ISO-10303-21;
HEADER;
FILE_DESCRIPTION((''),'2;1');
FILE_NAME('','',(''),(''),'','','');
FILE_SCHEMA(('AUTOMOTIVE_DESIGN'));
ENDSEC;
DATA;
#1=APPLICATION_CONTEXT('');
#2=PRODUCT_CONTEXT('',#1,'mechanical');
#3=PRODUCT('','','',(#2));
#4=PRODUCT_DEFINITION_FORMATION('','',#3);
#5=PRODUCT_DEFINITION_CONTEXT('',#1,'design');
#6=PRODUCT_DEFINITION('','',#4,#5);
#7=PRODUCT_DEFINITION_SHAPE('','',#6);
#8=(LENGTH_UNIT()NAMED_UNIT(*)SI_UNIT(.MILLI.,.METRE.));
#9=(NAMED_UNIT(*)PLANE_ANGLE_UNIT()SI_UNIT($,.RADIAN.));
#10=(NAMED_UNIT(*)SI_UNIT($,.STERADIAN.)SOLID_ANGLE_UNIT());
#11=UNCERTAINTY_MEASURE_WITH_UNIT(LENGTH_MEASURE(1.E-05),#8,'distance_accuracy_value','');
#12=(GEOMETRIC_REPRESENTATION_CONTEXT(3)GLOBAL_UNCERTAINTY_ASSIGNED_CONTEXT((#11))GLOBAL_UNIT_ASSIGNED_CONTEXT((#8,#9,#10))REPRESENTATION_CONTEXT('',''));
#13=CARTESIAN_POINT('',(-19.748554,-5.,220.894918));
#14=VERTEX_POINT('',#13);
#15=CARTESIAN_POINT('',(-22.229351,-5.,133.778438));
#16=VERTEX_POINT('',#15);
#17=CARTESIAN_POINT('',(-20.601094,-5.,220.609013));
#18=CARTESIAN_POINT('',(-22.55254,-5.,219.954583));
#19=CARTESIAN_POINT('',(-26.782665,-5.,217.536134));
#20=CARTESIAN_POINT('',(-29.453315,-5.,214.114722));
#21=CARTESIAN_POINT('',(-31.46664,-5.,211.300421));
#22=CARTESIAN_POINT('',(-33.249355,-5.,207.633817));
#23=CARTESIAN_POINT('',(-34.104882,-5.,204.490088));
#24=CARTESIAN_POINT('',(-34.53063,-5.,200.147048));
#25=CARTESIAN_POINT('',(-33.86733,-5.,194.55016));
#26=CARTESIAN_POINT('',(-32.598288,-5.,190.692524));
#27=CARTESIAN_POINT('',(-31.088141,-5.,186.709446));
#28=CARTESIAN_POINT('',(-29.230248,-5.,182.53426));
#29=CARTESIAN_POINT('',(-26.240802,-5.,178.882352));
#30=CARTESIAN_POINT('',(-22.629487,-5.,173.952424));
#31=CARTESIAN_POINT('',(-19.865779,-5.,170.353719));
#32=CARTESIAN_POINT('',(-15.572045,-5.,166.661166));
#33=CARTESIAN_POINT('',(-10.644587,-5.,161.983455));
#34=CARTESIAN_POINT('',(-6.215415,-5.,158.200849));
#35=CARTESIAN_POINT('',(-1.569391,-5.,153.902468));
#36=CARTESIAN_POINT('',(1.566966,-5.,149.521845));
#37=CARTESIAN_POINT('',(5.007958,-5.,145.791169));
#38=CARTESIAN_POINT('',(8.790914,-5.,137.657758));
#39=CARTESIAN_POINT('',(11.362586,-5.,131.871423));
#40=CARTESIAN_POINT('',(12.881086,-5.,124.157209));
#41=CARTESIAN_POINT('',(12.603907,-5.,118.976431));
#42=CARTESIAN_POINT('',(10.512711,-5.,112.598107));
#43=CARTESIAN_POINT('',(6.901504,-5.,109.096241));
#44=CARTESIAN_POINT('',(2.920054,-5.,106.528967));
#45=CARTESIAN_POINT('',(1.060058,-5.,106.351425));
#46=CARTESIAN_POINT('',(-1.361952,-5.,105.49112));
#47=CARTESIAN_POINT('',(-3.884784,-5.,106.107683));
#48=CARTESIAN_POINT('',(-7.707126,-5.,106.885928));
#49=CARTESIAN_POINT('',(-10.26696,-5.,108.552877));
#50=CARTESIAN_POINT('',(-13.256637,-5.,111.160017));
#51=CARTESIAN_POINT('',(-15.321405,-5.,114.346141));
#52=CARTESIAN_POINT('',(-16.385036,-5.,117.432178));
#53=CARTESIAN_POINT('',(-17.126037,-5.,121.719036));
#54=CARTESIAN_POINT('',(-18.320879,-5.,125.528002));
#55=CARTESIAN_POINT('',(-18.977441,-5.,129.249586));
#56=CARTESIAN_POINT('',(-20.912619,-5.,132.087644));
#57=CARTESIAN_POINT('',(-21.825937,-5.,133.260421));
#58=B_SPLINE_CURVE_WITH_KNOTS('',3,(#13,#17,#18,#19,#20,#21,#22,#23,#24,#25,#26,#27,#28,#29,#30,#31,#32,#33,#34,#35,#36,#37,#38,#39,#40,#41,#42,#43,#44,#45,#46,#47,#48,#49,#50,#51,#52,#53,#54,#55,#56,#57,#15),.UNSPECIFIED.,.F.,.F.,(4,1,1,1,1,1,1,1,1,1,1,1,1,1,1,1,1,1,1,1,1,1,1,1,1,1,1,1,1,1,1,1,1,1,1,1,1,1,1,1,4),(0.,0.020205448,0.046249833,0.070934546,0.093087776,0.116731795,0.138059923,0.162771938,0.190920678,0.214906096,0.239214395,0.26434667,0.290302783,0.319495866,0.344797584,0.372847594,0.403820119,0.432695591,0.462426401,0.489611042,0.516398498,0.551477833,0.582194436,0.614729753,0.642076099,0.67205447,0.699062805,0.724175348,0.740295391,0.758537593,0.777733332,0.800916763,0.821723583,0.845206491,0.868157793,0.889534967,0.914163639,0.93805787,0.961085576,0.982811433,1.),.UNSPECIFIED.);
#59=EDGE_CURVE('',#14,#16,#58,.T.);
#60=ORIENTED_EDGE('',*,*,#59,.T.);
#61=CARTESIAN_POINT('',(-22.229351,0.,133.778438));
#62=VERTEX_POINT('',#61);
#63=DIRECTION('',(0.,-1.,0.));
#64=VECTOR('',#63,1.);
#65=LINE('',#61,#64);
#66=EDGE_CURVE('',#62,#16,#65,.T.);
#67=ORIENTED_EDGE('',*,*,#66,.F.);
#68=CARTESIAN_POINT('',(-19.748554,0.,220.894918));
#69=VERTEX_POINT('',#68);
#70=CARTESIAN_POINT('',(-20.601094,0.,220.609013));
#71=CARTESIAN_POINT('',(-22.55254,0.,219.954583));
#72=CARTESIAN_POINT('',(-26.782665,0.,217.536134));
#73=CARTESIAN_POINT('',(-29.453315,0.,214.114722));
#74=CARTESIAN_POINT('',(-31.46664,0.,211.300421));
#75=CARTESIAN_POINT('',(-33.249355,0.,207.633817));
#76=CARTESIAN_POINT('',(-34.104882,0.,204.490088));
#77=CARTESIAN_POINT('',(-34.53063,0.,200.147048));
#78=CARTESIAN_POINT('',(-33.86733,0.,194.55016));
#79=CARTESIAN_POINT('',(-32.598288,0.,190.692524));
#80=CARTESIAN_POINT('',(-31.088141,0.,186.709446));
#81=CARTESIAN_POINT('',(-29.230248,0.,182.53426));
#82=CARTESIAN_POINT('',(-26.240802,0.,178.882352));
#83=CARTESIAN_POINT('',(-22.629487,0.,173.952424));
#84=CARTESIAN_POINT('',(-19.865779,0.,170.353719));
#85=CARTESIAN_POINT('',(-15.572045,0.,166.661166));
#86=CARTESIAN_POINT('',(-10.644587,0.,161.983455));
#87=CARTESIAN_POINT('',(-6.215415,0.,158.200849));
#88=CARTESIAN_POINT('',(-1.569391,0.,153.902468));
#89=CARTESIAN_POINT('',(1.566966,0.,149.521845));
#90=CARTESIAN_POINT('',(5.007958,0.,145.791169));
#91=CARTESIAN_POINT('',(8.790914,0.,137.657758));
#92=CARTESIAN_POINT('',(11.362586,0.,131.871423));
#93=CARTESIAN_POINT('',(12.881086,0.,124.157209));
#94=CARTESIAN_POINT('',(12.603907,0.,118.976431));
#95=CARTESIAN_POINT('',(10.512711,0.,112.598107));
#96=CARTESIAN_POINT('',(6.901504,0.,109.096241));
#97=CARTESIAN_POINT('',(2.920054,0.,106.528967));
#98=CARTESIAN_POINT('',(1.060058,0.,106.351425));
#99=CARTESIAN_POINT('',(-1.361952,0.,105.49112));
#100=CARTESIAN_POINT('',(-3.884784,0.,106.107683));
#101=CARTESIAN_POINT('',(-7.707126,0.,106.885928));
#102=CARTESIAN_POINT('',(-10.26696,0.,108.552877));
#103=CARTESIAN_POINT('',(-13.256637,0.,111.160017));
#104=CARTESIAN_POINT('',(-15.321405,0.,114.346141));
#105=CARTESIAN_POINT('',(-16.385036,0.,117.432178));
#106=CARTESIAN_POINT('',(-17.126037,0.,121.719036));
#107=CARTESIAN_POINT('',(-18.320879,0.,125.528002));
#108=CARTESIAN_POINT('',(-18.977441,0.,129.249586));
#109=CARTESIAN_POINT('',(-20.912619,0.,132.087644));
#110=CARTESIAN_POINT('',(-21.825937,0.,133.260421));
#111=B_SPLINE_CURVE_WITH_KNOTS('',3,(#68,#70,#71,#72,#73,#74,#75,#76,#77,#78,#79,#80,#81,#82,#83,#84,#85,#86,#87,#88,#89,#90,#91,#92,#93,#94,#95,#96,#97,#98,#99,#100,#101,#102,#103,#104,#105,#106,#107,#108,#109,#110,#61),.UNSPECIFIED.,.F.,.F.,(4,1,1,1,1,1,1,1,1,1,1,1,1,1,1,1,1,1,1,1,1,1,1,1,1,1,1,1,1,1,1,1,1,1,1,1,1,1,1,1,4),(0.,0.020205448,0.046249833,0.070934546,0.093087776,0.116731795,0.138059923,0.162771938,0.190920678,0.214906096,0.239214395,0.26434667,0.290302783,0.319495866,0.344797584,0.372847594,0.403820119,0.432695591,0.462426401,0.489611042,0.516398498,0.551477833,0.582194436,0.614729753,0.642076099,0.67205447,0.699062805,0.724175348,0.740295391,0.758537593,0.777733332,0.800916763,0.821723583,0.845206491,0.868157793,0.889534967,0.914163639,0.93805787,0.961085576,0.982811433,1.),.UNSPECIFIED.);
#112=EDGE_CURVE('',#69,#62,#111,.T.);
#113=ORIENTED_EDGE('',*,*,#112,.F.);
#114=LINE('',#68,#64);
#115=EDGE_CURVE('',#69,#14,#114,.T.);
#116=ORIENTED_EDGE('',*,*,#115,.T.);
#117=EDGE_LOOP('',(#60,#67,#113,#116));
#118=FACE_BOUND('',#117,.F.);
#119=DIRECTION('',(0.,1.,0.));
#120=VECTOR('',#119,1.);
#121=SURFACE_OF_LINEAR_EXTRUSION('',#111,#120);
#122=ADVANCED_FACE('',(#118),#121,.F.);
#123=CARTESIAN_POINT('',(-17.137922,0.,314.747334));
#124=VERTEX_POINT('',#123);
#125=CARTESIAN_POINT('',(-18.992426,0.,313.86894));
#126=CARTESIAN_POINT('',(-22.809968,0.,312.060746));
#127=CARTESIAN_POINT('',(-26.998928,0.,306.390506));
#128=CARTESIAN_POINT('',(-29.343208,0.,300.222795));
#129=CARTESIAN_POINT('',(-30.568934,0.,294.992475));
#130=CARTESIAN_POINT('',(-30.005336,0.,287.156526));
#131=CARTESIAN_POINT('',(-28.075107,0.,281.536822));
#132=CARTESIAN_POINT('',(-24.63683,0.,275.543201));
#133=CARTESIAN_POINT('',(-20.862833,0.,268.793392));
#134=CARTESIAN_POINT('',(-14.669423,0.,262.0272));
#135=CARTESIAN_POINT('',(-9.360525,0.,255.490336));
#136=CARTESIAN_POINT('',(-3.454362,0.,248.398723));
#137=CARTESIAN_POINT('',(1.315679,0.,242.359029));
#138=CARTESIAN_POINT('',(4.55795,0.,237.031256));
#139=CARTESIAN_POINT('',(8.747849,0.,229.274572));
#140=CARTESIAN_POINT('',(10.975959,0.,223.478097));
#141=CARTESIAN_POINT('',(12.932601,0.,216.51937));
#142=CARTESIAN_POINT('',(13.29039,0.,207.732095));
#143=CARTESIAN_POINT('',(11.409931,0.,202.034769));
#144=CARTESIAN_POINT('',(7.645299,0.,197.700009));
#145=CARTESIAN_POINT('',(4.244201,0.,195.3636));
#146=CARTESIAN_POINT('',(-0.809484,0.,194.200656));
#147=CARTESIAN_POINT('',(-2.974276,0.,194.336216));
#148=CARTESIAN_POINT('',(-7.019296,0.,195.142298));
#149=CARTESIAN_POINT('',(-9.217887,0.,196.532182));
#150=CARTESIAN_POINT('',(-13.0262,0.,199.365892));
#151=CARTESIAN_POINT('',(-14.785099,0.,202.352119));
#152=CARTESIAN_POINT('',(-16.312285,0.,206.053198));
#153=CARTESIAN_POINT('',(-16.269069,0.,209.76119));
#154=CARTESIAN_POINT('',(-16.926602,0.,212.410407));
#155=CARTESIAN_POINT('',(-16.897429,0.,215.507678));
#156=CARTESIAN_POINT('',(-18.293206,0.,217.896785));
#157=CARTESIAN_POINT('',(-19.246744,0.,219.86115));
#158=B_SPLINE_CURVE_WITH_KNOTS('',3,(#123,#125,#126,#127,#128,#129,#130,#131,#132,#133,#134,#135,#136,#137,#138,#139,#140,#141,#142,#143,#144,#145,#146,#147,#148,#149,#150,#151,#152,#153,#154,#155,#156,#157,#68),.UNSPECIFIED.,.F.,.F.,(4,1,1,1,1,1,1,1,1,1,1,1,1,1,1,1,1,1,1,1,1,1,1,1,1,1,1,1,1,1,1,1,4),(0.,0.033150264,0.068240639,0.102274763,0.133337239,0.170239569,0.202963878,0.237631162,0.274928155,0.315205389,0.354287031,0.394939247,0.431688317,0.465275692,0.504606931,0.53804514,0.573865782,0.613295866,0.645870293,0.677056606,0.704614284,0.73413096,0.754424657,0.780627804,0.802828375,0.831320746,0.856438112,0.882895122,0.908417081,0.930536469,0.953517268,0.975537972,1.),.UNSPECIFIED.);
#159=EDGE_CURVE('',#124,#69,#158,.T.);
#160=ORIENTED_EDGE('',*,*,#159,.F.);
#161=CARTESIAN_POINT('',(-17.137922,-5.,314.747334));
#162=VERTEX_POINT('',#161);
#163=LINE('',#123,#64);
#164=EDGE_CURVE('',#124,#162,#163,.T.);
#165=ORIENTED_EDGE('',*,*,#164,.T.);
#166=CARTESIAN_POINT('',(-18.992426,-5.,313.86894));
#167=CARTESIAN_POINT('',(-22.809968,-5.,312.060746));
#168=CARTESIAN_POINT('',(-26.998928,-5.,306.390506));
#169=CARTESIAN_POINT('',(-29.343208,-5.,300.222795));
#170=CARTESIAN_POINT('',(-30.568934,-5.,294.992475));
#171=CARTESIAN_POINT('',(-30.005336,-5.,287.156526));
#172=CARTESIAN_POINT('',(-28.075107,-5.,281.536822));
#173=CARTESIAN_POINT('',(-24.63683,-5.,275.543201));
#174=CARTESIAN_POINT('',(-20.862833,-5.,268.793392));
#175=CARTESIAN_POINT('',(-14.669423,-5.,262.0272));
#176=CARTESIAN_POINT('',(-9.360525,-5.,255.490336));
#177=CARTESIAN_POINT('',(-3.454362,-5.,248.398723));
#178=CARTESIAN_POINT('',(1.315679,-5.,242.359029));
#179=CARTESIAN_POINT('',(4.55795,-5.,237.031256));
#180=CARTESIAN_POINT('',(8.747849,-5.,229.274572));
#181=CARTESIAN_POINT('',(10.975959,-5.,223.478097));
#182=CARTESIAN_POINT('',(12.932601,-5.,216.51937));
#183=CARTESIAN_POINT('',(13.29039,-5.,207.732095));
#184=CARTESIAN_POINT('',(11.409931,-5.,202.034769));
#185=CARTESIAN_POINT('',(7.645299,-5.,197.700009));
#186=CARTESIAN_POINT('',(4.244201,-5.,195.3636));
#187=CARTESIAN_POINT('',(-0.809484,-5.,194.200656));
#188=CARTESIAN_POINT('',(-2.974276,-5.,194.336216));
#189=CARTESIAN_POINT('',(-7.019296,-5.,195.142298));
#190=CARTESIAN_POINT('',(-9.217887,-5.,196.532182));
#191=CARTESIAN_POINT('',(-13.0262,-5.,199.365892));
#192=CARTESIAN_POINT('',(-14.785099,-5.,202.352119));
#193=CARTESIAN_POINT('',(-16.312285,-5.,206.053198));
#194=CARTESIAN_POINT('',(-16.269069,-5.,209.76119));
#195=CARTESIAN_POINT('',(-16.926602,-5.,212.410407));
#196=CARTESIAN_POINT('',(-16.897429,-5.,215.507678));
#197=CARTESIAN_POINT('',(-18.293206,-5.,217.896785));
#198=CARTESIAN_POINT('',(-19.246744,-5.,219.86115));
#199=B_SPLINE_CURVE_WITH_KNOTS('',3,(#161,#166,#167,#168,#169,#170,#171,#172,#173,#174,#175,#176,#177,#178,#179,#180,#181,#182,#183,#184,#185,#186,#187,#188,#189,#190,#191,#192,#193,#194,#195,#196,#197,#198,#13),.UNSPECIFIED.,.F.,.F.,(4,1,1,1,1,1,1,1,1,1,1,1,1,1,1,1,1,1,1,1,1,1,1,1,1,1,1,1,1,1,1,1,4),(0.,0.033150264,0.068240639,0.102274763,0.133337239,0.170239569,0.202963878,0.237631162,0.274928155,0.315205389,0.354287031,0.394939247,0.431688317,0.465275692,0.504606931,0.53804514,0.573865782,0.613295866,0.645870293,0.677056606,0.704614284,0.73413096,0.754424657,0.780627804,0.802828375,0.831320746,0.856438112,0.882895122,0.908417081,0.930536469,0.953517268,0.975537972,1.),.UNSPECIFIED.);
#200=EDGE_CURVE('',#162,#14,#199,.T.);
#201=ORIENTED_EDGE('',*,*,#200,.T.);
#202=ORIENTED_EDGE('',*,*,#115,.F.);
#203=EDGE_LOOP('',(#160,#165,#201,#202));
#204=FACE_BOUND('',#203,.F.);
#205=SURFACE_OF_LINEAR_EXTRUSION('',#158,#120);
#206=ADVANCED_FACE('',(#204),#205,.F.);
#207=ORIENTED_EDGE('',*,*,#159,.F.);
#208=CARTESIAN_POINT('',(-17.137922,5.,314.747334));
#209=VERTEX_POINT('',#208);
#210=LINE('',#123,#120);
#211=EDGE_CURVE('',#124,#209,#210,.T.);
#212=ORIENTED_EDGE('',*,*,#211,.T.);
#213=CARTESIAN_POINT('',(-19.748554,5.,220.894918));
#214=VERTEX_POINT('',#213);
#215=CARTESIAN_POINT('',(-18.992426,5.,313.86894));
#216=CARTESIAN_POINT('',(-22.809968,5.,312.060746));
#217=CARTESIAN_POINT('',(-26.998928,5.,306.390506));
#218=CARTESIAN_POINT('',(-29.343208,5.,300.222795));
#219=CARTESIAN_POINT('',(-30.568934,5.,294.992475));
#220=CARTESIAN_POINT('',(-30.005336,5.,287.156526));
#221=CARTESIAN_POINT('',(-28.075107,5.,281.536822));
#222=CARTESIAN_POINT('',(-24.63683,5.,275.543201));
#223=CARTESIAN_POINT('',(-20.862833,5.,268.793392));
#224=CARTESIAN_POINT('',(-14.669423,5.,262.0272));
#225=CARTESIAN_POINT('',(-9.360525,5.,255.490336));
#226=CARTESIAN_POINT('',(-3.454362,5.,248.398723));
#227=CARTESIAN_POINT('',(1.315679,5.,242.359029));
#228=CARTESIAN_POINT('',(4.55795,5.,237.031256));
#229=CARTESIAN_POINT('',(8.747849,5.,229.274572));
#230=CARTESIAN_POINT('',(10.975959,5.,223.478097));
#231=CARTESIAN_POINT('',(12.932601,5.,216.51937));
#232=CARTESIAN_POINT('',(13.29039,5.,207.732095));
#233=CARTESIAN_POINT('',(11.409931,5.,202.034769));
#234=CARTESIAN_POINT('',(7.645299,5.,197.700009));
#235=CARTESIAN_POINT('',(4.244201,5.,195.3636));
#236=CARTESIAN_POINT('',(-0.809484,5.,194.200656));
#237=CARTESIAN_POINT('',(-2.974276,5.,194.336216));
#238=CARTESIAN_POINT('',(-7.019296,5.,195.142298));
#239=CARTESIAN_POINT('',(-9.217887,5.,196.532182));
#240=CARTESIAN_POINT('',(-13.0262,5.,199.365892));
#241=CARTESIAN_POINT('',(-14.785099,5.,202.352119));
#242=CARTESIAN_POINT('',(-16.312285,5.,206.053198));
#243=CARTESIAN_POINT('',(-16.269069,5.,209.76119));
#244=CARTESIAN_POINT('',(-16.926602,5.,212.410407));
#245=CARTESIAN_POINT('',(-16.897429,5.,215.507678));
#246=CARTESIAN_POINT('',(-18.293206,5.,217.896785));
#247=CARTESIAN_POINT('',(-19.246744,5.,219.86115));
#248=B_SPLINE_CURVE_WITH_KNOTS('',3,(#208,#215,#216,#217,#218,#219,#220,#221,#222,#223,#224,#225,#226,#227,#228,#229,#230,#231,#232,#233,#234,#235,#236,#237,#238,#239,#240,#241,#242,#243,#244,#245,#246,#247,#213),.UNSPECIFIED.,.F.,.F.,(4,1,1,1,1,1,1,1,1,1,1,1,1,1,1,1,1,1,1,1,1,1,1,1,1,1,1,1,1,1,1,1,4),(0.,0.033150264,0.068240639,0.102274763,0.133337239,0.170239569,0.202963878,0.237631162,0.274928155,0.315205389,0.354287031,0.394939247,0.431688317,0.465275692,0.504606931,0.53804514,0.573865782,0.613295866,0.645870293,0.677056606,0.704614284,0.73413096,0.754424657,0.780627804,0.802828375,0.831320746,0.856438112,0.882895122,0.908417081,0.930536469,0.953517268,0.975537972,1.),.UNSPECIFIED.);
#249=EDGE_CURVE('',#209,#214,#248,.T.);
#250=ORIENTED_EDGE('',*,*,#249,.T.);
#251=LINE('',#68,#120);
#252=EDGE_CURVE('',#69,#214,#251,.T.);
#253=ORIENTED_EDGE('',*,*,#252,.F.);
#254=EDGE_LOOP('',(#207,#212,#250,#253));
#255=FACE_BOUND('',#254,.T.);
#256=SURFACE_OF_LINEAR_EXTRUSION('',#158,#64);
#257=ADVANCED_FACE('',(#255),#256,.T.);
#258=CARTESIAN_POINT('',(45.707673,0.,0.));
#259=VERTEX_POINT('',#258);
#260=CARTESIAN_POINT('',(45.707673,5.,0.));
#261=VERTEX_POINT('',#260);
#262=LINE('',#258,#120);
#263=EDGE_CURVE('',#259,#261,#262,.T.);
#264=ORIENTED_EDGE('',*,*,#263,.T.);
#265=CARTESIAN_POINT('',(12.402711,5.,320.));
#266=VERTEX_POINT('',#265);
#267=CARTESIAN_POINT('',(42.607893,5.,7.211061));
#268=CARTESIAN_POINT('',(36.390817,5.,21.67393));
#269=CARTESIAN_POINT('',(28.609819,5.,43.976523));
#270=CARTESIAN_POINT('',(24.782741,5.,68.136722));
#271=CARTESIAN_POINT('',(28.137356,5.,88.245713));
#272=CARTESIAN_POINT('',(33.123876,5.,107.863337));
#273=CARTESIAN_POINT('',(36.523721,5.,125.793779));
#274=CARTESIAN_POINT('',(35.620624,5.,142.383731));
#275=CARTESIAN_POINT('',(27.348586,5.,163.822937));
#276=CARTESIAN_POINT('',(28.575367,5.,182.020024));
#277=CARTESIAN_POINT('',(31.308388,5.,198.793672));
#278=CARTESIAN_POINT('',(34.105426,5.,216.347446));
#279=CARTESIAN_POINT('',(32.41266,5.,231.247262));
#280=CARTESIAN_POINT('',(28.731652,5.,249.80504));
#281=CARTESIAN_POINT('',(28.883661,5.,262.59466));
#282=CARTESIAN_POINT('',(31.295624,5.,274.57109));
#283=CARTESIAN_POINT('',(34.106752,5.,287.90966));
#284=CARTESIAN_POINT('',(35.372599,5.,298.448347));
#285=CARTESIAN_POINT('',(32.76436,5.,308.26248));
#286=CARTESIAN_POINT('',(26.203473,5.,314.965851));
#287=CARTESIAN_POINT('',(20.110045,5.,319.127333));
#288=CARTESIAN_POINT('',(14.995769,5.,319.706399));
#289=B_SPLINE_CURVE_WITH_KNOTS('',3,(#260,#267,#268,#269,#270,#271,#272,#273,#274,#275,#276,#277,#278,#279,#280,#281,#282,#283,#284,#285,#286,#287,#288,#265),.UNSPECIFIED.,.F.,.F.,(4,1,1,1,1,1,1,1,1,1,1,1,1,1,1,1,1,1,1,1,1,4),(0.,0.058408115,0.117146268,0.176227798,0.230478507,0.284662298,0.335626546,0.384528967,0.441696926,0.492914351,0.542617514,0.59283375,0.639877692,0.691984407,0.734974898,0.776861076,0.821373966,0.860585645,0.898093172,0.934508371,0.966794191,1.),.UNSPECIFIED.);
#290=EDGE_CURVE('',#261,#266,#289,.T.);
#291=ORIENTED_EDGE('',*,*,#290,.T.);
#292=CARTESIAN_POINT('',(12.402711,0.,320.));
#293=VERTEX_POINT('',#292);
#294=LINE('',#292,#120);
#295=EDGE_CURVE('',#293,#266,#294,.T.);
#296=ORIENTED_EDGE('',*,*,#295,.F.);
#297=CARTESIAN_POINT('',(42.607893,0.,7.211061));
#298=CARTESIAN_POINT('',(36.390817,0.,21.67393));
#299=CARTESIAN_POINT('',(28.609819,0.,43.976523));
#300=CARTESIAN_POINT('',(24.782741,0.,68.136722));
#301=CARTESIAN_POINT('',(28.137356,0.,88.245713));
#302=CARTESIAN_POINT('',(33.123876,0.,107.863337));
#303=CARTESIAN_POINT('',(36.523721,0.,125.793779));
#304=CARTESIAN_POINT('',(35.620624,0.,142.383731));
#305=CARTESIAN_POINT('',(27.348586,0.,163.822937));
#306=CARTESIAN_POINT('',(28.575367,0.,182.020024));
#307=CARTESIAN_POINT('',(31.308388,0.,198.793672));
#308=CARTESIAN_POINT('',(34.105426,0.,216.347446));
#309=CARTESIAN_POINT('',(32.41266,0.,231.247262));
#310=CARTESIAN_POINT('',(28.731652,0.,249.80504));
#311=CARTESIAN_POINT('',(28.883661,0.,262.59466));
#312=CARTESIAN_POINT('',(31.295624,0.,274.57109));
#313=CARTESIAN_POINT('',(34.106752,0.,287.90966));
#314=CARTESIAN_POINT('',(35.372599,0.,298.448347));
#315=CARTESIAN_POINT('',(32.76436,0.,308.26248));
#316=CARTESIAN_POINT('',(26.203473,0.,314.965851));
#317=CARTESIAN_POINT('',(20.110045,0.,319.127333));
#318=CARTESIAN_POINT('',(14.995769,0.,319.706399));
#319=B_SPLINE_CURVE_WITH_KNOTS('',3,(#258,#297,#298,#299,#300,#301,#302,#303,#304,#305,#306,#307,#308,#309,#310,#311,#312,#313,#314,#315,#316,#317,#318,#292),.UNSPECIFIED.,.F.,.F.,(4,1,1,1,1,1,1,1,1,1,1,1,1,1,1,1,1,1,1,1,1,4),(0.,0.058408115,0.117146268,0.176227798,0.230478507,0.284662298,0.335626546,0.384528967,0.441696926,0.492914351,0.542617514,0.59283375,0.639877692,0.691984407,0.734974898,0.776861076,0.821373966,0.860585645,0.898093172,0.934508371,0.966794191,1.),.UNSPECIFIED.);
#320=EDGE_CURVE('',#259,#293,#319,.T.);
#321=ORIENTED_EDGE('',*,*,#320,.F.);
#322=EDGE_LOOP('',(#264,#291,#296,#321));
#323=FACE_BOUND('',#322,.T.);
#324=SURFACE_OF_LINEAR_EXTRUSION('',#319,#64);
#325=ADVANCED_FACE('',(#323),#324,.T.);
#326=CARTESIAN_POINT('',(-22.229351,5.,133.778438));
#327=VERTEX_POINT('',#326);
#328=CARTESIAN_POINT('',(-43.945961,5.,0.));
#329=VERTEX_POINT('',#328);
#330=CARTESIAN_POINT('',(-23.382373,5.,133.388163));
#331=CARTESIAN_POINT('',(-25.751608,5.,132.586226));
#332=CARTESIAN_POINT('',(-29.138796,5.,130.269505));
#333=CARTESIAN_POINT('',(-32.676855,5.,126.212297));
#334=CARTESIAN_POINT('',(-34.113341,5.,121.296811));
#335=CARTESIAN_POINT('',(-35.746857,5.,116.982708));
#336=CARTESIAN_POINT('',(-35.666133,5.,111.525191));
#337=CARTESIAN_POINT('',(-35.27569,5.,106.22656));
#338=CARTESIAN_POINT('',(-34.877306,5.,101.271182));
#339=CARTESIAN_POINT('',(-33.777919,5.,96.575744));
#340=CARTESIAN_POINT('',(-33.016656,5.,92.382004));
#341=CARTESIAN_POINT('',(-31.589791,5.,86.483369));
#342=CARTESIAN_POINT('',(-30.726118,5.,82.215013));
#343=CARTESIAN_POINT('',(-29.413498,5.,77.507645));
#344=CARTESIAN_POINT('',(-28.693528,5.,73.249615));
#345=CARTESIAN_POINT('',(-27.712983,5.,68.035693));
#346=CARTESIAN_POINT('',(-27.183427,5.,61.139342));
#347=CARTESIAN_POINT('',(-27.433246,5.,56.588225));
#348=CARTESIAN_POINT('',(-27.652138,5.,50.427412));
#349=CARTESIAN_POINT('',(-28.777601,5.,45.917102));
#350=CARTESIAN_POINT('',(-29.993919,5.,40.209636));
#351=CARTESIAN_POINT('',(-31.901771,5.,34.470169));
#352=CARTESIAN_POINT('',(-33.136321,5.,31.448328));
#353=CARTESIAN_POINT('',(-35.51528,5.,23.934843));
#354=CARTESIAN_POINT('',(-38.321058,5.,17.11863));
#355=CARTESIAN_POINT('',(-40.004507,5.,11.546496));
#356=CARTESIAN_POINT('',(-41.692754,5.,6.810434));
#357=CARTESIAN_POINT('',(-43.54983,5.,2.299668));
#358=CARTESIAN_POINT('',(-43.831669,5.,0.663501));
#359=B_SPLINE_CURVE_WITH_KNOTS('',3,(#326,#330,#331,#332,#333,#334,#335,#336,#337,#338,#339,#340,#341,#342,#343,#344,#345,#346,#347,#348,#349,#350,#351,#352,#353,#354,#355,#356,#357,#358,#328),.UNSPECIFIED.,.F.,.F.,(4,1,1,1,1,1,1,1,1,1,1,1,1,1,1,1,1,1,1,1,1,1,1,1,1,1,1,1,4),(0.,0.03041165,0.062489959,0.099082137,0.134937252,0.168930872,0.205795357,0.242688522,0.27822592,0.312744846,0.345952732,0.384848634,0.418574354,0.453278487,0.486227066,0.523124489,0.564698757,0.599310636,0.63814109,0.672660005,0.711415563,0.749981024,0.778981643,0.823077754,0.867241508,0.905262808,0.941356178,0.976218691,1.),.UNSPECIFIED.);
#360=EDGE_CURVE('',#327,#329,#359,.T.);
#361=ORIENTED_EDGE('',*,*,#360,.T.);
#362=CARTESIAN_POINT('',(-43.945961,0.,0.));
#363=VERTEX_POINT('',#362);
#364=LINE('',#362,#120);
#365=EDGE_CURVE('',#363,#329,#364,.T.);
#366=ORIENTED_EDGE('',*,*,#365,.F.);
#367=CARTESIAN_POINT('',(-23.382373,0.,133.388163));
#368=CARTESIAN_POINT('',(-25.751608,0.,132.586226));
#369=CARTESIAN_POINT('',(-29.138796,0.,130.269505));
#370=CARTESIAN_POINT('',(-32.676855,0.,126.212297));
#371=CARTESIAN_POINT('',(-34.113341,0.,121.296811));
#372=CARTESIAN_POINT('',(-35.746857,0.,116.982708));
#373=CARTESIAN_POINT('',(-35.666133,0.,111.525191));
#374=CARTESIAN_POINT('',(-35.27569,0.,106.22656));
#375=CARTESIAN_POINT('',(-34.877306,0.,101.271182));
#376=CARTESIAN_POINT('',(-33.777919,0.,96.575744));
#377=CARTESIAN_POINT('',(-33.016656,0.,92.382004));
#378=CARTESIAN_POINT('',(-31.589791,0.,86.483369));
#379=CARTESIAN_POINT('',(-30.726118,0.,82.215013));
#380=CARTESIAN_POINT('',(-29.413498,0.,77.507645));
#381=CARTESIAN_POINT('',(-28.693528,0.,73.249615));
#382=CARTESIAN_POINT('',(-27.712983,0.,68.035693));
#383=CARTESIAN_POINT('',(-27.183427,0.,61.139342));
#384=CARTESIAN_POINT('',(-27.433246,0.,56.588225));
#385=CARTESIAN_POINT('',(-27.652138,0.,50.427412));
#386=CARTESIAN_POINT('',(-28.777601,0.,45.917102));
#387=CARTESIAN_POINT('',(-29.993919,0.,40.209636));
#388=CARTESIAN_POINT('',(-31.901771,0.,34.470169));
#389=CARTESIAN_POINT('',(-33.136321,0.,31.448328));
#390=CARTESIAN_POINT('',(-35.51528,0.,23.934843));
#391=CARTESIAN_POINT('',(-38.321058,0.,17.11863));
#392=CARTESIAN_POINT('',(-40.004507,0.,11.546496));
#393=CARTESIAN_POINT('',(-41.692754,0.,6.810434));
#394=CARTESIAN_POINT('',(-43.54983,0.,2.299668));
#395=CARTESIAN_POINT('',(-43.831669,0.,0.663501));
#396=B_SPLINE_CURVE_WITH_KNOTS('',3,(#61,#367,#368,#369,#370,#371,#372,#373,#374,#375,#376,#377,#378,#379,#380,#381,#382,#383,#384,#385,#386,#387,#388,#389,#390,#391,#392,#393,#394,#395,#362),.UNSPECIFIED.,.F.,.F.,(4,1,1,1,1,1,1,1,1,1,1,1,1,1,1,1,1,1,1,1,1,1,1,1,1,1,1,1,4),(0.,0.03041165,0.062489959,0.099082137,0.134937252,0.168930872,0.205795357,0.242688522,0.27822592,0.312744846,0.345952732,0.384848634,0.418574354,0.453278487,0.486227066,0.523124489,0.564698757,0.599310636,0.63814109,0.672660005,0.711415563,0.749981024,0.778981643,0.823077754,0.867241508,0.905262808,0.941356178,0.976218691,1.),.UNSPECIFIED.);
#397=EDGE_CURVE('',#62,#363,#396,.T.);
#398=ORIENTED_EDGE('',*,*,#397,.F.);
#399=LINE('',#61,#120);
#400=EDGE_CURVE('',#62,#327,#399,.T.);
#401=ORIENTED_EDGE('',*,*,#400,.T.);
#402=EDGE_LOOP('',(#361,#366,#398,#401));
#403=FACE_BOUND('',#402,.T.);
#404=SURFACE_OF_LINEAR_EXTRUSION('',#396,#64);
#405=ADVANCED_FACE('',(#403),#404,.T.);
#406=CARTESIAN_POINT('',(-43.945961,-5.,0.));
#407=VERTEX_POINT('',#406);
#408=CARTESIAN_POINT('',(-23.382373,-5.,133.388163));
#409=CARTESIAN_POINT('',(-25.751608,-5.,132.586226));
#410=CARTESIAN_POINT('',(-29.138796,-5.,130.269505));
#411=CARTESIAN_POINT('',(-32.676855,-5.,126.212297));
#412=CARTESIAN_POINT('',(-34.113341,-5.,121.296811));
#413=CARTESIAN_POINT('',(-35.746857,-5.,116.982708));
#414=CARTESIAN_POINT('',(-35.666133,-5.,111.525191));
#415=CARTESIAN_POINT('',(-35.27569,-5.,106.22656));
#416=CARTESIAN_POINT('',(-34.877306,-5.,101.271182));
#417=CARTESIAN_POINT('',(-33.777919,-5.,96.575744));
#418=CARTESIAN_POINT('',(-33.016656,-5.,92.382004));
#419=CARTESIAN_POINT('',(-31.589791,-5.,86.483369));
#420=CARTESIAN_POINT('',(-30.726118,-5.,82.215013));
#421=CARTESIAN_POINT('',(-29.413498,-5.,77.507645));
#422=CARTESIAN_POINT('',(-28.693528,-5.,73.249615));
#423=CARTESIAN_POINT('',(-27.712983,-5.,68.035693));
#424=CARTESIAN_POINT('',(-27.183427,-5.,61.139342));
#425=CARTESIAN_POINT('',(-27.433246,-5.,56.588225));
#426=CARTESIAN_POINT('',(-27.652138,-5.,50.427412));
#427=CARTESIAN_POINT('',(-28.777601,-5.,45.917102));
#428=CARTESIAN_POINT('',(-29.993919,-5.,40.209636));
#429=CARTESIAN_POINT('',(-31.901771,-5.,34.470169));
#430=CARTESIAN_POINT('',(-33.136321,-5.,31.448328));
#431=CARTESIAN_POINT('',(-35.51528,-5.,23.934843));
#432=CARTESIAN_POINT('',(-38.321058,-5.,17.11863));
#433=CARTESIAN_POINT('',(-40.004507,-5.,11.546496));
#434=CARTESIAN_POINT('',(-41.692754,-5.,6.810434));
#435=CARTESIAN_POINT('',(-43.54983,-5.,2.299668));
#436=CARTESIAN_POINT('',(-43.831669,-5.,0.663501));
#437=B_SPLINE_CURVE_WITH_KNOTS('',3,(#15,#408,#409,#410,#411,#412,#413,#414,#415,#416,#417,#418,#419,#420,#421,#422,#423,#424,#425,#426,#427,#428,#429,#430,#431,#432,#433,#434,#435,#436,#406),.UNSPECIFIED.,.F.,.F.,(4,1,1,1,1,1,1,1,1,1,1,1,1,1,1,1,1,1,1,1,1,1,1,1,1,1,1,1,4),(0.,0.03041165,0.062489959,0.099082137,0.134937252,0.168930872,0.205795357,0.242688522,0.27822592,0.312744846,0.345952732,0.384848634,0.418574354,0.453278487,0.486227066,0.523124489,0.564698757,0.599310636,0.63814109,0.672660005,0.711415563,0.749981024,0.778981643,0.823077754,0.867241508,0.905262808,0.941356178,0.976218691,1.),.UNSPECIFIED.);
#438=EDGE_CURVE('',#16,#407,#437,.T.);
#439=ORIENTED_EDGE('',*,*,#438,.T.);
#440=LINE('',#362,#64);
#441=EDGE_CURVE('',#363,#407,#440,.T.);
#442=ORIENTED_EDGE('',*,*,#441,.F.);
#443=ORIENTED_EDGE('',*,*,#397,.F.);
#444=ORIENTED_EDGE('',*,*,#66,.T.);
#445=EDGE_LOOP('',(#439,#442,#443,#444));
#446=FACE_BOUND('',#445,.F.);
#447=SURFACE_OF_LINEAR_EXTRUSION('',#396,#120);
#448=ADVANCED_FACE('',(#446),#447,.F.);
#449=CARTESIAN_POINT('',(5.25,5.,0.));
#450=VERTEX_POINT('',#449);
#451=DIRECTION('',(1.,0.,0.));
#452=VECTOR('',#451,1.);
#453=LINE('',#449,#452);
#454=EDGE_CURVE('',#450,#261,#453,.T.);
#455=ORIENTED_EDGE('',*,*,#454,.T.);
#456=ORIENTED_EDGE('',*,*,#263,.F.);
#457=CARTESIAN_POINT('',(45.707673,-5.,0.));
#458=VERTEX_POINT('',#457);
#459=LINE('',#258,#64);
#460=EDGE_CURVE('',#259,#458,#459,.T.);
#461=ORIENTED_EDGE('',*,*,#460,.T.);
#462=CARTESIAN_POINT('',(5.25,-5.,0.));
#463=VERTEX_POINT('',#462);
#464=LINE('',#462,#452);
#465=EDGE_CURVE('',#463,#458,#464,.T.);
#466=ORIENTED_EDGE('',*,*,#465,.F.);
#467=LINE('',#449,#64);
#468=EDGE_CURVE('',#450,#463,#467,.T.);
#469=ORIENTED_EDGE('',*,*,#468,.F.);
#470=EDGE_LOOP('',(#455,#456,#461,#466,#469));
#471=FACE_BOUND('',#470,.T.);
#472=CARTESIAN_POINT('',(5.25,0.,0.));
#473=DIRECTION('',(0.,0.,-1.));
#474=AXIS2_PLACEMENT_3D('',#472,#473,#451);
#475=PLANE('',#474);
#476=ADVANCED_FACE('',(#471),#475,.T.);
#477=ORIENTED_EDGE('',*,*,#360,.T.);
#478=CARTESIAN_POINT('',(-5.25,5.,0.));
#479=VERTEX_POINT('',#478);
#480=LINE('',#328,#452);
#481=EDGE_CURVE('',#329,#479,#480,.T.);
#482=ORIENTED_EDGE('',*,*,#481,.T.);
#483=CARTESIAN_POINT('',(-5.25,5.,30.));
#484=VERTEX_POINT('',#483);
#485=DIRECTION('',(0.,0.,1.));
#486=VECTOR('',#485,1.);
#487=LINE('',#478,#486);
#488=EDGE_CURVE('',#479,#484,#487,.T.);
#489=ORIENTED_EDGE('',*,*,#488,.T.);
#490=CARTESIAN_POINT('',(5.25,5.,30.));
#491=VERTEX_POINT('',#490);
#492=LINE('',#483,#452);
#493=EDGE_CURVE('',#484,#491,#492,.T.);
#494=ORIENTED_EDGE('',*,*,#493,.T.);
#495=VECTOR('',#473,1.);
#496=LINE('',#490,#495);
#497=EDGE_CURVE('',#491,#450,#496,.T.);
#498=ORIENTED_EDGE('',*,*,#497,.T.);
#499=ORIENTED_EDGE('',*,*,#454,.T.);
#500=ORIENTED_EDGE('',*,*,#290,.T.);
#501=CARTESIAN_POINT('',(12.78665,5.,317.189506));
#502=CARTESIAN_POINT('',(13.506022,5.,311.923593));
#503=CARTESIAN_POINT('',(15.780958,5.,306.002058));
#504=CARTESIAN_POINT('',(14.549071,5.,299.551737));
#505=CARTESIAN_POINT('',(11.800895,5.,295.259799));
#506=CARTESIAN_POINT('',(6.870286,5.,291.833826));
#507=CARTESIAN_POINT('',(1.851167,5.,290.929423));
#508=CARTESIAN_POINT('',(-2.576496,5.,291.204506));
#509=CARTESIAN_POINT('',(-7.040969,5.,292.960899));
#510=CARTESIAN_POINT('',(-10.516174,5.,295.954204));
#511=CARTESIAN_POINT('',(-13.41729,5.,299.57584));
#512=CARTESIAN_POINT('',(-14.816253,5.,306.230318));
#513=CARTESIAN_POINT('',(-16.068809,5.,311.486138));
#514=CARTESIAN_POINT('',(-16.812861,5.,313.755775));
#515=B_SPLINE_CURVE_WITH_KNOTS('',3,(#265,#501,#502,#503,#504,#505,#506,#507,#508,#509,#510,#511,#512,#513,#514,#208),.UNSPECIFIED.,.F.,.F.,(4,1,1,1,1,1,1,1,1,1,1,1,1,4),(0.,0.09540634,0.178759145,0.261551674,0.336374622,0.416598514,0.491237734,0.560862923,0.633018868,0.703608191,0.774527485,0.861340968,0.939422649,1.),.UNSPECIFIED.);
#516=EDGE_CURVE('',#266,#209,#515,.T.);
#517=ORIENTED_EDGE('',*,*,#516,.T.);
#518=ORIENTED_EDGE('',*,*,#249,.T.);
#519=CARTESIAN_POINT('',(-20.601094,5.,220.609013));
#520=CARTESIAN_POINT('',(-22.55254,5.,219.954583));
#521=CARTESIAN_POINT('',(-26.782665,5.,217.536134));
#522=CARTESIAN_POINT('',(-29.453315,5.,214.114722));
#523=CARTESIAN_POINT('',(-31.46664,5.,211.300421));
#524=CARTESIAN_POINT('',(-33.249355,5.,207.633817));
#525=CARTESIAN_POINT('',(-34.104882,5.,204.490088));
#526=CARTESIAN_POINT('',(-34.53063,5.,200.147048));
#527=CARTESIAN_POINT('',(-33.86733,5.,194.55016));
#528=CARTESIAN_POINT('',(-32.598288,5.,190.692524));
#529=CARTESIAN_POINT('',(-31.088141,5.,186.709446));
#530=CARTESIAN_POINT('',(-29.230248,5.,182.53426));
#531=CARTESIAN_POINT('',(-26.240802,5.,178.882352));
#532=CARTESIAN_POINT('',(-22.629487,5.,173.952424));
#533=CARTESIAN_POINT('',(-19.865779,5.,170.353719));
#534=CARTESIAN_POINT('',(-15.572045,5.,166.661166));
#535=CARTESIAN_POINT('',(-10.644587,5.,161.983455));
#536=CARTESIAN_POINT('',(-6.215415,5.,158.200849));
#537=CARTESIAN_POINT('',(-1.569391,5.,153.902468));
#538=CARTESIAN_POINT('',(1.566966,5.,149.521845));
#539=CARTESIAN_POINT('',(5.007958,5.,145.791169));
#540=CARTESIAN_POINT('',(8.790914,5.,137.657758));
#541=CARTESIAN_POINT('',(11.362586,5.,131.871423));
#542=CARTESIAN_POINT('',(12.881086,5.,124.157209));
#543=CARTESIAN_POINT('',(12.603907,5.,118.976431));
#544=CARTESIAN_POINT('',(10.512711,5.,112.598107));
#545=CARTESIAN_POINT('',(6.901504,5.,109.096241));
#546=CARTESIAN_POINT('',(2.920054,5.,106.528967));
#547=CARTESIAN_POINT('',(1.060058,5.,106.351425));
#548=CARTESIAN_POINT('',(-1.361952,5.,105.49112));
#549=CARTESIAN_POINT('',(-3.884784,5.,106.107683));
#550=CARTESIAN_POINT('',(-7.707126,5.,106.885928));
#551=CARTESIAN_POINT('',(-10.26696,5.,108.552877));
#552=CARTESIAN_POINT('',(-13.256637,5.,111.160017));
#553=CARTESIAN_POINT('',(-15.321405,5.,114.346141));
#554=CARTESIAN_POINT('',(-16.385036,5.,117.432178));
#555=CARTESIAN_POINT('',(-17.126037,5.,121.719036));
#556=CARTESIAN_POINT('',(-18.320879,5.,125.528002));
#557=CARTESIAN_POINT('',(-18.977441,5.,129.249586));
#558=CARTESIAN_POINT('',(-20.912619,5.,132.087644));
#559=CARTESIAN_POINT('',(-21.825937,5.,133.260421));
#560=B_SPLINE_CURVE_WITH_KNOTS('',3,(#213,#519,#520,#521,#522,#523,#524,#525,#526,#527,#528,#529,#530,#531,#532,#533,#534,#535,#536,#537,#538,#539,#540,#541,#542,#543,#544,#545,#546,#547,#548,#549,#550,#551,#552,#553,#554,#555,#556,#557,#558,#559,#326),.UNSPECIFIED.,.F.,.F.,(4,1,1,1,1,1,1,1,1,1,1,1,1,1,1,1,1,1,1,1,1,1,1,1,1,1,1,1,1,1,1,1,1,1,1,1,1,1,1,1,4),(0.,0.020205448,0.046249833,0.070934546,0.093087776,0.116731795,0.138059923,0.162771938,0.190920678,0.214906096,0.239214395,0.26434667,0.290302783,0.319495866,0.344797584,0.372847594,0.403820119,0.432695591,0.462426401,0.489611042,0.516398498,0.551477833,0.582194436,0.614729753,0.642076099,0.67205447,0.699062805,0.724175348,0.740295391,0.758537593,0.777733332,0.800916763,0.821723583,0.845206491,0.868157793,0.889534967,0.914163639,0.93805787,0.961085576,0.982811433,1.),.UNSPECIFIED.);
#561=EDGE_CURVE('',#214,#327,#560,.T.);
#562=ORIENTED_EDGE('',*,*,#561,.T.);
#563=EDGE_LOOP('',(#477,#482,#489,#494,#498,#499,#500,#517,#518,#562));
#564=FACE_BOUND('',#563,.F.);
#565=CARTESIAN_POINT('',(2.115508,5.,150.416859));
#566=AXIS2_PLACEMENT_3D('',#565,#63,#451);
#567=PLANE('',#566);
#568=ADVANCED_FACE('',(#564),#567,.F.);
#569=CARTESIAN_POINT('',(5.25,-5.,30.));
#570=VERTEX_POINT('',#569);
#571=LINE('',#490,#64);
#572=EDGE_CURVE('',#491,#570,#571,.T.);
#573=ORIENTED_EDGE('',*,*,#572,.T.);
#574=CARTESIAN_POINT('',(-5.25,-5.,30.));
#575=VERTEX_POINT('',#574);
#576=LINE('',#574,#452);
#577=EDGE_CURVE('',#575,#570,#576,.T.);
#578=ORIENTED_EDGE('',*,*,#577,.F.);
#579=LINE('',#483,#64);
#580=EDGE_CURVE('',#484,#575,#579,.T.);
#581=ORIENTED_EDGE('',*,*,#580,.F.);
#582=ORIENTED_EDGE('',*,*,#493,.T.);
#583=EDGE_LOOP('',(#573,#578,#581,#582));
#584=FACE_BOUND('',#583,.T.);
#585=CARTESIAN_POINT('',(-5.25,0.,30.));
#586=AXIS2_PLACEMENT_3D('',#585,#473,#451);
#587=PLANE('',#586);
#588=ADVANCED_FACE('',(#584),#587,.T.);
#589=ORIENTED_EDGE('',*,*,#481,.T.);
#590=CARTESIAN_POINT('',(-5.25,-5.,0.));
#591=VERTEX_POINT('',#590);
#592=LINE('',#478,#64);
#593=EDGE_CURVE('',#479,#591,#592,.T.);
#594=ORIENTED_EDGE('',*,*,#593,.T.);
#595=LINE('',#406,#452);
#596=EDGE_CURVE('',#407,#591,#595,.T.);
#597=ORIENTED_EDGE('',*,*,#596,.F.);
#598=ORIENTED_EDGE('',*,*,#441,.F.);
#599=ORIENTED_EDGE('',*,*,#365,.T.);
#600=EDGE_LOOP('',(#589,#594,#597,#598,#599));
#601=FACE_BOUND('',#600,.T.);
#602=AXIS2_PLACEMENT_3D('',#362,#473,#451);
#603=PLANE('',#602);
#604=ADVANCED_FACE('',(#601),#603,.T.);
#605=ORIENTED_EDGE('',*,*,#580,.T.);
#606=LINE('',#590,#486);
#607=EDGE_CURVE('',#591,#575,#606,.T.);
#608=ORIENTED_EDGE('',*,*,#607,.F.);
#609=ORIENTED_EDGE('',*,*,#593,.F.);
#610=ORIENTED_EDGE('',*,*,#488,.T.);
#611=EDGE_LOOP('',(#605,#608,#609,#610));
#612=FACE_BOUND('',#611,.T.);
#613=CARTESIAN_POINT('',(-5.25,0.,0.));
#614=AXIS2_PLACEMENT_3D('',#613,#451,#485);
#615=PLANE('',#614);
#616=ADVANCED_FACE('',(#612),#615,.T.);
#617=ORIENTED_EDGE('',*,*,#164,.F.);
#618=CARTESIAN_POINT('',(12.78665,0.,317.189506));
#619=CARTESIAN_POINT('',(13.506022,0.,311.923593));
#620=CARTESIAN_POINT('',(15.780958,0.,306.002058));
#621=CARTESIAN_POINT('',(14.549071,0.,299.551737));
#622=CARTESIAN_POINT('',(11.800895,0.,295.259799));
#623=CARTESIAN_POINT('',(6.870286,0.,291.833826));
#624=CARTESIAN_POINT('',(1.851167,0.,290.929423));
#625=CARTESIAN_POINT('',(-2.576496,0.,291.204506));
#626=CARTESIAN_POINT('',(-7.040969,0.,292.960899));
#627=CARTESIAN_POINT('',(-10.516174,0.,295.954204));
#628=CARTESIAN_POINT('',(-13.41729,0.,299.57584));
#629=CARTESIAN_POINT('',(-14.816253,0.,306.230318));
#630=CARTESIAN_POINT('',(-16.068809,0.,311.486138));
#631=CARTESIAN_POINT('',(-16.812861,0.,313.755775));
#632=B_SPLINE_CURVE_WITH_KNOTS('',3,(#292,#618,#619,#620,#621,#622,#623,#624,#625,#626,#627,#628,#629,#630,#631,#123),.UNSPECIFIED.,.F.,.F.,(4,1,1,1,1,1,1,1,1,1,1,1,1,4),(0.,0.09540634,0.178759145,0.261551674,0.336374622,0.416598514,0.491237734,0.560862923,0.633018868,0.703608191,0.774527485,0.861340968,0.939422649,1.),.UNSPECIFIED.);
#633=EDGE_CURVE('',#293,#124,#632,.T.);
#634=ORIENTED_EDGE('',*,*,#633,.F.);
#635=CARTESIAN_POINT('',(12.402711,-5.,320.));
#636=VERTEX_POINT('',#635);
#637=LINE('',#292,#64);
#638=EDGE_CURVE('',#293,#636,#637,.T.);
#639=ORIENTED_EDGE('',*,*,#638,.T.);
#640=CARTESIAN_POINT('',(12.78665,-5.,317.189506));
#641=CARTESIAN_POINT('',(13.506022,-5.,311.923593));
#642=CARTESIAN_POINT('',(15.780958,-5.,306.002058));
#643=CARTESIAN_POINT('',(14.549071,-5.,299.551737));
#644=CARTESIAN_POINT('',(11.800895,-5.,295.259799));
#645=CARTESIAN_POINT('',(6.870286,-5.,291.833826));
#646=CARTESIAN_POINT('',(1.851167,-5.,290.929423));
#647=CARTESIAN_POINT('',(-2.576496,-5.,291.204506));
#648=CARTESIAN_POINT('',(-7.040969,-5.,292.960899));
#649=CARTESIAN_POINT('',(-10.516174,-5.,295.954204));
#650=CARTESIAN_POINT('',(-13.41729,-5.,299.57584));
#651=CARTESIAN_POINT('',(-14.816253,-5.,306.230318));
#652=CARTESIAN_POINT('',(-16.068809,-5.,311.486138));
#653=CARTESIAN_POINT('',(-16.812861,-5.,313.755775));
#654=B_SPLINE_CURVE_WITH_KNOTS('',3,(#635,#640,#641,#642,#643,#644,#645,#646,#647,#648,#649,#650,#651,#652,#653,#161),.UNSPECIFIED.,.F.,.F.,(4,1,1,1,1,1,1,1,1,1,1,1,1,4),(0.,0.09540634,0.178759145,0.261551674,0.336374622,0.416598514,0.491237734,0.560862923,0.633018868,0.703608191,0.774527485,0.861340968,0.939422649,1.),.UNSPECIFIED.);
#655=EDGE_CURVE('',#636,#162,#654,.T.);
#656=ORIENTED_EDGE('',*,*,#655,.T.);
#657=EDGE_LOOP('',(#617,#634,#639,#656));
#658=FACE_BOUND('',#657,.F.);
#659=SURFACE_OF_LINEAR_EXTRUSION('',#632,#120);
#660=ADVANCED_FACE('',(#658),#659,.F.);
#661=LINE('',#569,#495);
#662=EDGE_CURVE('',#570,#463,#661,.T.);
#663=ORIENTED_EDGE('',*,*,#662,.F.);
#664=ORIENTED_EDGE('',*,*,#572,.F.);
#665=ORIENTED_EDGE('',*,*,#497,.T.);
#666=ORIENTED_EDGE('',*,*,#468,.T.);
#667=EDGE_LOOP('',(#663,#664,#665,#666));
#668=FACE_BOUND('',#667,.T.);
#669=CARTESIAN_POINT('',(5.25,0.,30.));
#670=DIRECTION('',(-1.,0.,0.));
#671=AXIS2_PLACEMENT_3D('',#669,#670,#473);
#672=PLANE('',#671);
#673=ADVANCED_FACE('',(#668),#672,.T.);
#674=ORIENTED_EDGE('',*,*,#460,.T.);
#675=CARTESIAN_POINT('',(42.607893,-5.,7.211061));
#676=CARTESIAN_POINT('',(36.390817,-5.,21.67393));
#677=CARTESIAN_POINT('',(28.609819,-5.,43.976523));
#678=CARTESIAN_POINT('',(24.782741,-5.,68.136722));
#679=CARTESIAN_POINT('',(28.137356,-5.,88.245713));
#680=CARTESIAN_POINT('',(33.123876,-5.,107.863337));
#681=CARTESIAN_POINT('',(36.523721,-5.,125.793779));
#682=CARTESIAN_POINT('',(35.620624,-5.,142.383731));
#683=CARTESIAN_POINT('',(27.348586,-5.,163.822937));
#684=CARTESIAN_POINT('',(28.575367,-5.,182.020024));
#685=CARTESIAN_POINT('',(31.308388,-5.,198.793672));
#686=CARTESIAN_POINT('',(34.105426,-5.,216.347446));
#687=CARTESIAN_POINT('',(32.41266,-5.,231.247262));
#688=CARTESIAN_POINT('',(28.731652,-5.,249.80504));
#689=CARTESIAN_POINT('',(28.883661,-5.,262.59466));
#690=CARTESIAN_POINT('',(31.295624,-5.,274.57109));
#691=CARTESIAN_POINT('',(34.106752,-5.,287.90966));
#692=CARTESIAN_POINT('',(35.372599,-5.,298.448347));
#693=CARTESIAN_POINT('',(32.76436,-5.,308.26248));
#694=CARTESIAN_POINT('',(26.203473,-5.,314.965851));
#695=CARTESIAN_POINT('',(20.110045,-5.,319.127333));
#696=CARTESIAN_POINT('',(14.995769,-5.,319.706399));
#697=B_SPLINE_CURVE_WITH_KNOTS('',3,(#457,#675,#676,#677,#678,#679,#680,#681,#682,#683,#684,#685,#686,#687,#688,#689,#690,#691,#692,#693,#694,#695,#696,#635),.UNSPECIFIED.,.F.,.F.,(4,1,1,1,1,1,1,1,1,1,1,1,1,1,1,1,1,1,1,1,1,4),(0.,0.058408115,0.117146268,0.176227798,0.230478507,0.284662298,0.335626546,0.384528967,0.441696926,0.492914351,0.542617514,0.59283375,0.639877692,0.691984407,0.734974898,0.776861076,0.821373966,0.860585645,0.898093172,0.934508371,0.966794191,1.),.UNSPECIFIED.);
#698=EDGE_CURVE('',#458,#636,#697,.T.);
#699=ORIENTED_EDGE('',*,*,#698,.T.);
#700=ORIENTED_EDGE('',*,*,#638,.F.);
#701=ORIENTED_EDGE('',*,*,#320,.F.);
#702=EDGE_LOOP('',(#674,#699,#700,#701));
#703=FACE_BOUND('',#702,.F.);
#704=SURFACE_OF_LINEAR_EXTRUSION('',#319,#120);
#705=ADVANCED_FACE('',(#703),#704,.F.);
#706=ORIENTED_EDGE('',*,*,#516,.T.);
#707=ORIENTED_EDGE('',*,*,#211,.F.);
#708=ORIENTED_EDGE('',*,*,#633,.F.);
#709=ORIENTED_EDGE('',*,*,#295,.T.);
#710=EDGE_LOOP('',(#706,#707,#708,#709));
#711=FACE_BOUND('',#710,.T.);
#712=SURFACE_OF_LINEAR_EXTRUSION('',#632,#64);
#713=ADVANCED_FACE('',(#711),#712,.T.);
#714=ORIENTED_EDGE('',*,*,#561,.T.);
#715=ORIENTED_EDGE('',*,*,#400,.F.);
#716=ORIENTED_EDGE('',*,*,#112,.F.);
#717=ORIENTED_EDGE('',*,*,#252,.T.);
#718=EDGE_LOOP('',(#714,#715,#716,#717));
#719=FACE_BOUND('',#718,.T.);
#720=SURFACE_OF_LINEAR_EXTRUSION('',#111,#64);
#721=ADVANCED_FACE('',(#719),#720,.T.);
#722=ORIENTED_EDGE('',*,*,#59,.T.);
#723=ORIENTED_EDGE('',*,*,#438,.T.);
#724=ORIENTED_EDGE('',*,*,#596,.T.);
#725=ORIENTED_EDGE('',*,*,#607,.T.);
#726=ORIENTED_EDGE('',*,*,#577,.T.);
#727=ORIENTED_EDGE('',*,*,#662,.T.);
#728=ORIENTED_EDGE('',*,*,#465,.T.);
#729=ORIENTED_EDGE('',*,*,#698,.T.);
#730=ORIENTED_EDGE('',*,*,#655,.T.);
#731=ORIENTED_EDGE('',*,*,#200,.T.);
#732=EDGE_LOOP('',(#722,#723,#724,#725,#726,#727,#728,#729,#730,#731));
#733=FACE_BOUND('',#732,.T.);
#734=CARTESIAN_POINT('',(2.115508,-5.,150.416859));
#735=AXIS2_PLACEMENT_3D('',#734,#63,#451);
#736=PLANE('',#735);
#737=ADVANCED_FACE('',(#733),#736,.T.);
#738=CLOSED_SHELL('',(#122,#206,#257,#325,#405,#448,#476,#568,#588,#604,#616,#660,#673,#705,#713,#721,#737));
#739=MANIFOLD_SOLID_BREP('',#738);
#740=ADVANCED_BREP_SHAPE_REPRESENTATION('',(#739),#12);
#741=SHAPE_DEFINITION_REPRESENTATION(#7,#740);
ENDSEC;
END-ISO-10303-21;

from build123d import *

# Parameters (mm, degrees)
F1_DEPTH = 5


with BuildPart() as f1:
    # F0 (on Front) → F1 (new body, symmetric)
    with BuildSketch(Plane.XZ):
        with BuildLine():
            Line((-43.9459607005, 0), (-5.25, 0))
            Line((-5.25, 0), (-5.25, 30))
            Line((-5.25, 30), (5.25, 30))
            Line((5.25, 30), (5.25, 0))
            Line((5.25, 0), (45.7076728344, 0))
            add(Edge.make_bspline(
                [(45.7076728344, 0), (42.6078926568, 7.2110613186), (36.3908168459, 21.6739304012), (28.6098185997, 43.97652253), (24.7827408904, 68.1367224342), (28.1373561035, 88.2457125422), (33.1238760423, 107.863336919), (36.5237208072, 125.7937790118), (35.6206237751, 142.3837305687), (27.3485864364, 163.8229371939), (28.5753666345, 182.0200242994), (31.3083878367, 198.7936718966), (34.1054264764, 216.3474458605), (32.4126596563, 231.2472621342), (28.7316521101, 249.8050402605), (28.8836609411, 262.5946600428), (31.2956236453, 274.5710895471), (34.1067523864, 287.9096596627), (35.3725987603, 298.4483473796), (32.7643598359, 308.2624801366), (26.2034733871, 314.9658511053), (20.1100445536, 319.1273326424), (14.9957693187, 319.7063994153), (12.4027105048, 320)],
                knots=[0, 0, 0, 0, 0.0584081151, 0.1171462679, 0.176227798, 0.2304785071, 0.2846622984, 0.3356265464, 0.3845289673, 0.4416969259, 0.492914351, 0.5426175143, 0.5928337495, 0.639877692, 0.6919844066, 0.7349748976, 0.7768610758, 0.8213739657, 0.860585645, 0.8980931716, 0.9345083707, 0.966794191, 1, 1, 1, 1], degree=3))
            add(Edge.make_bspline(
                [(12.4027105048, 320), (12.7866497898, 317.1895061305), (13.5060218826, 311.9235931701), (15.7809576773, 306.0020583745), (14.5490714281, 299.551736763), (11.8008945292, 295.2597987866), (6.8702858779, 291.8338259358), (1.8511667698, 290.9294231111), (-2.5764956131, 291.2045063315), (-7.0409689059, 292.9608992858), (-10.5161742331, 295.9542039017), (-13.4172899181, 299.5758404311), (-14.8162527572, 306.2303182601), (-16.0688094388, 311.4861380968), (-16.8128610936, 313.7557747633), (-17.1379223466, 314.7473335266)],
                knots=[0, 0, 0, 0, 0.0954063398, 0.1787591451, 0.2615516737, 0.3363746219, 0.4165985141, 0.4912377337, 0.5608629227, 0.6330188675, 0.7036081906, 0.7745274853, 0.8613409681, 0.9394226485, 1, 1, 1, 1], degree=3))
            add(Edge.make_bspline(
                [(-17.1379223466, 314.7473335266), (-18.992425998, 313.8689403976), (-22.8099676572, 312.0607464044), (-26.9989275913, 306.3905063729), (-29.3432082511, 300.2227953923), (-30.5689336248, 294.9924750998), (-30.0053363464, 287.1565258547), (-28.0751068672, 281.5368222921), (-24.6368296114, 275.5432010074), (-20.8628329225, 268.7933921942), (-14.6694225067, 262.0272000558), (-9.3605248702, 255.490336453), (-3.4543615432, 248.3987231795), (1.3156787779, 242.3590287738), (4.5579496377, 237.0312561803), (8.7478494284, 229.2745715216), (10.9759585586, 223.4780973681), (12.9326005568, 216.5193704615), (13.2903903435, 207.7320949591), (11.4099313761, 202.0347686248), (7.6452989073, 197.7000091859), (4.2442008565, 195.3635999321), (-0.8094842759, 194.2006561022), (-2.9742756036, 194.3362162278), (-7.0192957035, 195.1422980901), (-9.2178872458, 196.5321820449), (-13.0261996204, 199.3658915614), (-14.785099084, 202.3521185272), (-16.3122850468, 206.0531976998), (-16.2690690707, 209.7611897347), (-16.9266017425, 212.41040735), (-16.8974288645, 215.5076776803), (-18.2932059604, 217.8967851412), (-19.2467441229, 219.8611500846), (-19.7485536337, 220.8949178457)],
                knots=[0, 0, 0, 0, 0.033150264, 0.0682406387, 0.1022747625, 0.1333372387, 0.1702395689, 0.2029638776, 0.2376311621, 0.274928155, 0.3152053887, 0.3542870311, 0.3949392474, 0.4316883174, 0.4652756922, 0.5046069312, 0.5380451403, 0.5738657825, 0.6132958657, 0.6458702926, 0.6770566058, 0.7046142842, 0.7341309603, 0.7544246573, 0.7806278043, 0.8028283755, 0.8313207462, 0.8564381121, 0.8828951219, 0.9084170808, 0.9305364688, 0.9535172683, 0.9755379724, 1, 1, 1, 1], degree=3))
            add(Edge.make_bspline(
                [(-19.7485536337, 220.8949178457), (-20.6010937453, 220.6090129109), (-22.5525396186, 219.9545826997), (-26.7826649261, 217.5361339675), (-29.4533151976, 214.1147216769), (-31.4666396723, 211.3004209944), (-33.2493553296, 207.6338172283), (-34.1048821065, 204.4900877991), (-34.5306301136, 200.1470482457), (-33.8673299068, 194.5501596376), (-32.5982878432, 190.6925241606), (-31.0881410235, 186.7094456063), (-29.2302483988, 182.5342595597), (-26.2408016386, 178.8823517995), (-22.6294873795, 173.9524240965), (-19.8657790305, 170.3537191738), (-15.5720452832, 166.6611656566), (-10.6445874381, 161.9834545869), (-6.2154149075, 158.2008486118), (-1.5693914915, 153.9024678749), (1.5669657626, 149.5218451794), (5.0079578154, 145.7911694669), (8.7909137501, 137.6577579888), (11.3625860855, 131.8714229953), (12.8810857502, 124.1572092738), (12.6039070505, 118.9764306089), (10.5127105321, 112.5981065882), (6.9015040392, 109.0962408506), (2.9200537969, 106.5289666738), (1.0600578093, 106.3514250527), (-1.3619518464, 105.4911200094), (-3.8847841726, 106.1076834515), (-7.7071257554, 106.8859284662), (-10.2669596354, 108.5528765219), (-13.256636788, 111.1600169063), (-15.321405092, 114.3461410584), (-16.3850363147, 117.432178144), (-17.1260367768, 121.7190364141), (-18.3208791608, 125.5280015209), (-18.9774409362, 129.2495861968), (-20.9126192101, 132.0876441718), (-21.8259370656, 133.2604206313), (-22.2293511033, 133.7784379721)],
                knots=[0, 0, 0, 0, 0.020205448, 0.0462498335, 0.0709345462, 0.0930877764, 0.1167317954, 0.1380599226, 0.1627719385, 0.1909206782, 0.2149060956, 0.2392143946, 0.2643466699, 0.2903027826, 0.3194958657, 0.3447975836, 0.372847594, 0.403820119, 0.432695591, 0.462426401, 0.4896110421, 0.5163984977, 0.5514778326, 0.5821944359, 0.6147297528, 0.6420760994, 0.6720544704, 0.699062805, 0.7241753482, 0.7402953907, 0.7585375928, 0.7777333325, 0.800916763, 0.8217235833, 0.8452064907, 0.8681577933, 0.8895349668, 0.9141636388, 0.9380578704, 0.9610855758, 0.9828114332, 1, 1, 1, 1], degree=3))
            add(Edge.make_bspline(
                [(-22.2293511033, 133.7784379721), (-23.3823734491, 133.3881633589), (-25.7516075414, 132.5862258058), (-29.1387958964, 130.2695046226), (-32.6768550573, 126.21229737), (-34.1133414421, 121.2968105477), (-35.7468572217, 116.9827081571), (-35.6661328661, 111.525191316), (-35.2756897259, 106.226560047), (-34.8773060832, 101.2711822887), (-33.7779193539, 96.5757440308), (-33.0166561583, 92.3820044544), (-31.5897910078, 86.4833693593), (-30.7261175834, 82.2150129178), (-29.4134978858, 77.5076450433), (-28.6935284532, 73.2496151911), (-27.7129827614, 68.0356928178), (-27.1834270497, 61.1393417434), (-27.4332462724, 56.5882246416), (-27.652137831, 50.4274121958), (-28.7776011521, 45.9171020948), (-29.9939191295, 40.2096364446), (-31.9017712312, 34.4701690874), (-33.1363213221, 31.4483283217), (-35.5152801551, 23.9348428784), (-38.3210578498, 17.118630127), (-40.0045071171, 11.5464962961), (-41.6927542701, 6.8104343545), (-43.5498302087, 2.2996681818), (-43.8316690808, 0.6635005556), (-43.9459607005, 0)],
                knots=[0, 0, 0, 0, 0.0304116503, 0.0624899586, 0.0990821374, 0.1349372523, 0.1689308721, 0.2057953566, 0.2426885223, 0.2782259199, 0.3127448456, 0.3459527317, 0.3848486342, 0.4185743536, 0.453278487, 0.4862270661, 0.5231244894, 0.564698757, 0.5993106358, 0.6381410904, 0.6726600053, 0.7114155628, 0.7499810236, 0.7789816433, 0.8230777545, 0.867241508, 0.9052628085, 0.9413561785, 0.9762186909, 1, 1, 1, 1], degree=3))
        make_face()
    extrude(amount=F1_DEPTH, both=True)


solid = f1.part
